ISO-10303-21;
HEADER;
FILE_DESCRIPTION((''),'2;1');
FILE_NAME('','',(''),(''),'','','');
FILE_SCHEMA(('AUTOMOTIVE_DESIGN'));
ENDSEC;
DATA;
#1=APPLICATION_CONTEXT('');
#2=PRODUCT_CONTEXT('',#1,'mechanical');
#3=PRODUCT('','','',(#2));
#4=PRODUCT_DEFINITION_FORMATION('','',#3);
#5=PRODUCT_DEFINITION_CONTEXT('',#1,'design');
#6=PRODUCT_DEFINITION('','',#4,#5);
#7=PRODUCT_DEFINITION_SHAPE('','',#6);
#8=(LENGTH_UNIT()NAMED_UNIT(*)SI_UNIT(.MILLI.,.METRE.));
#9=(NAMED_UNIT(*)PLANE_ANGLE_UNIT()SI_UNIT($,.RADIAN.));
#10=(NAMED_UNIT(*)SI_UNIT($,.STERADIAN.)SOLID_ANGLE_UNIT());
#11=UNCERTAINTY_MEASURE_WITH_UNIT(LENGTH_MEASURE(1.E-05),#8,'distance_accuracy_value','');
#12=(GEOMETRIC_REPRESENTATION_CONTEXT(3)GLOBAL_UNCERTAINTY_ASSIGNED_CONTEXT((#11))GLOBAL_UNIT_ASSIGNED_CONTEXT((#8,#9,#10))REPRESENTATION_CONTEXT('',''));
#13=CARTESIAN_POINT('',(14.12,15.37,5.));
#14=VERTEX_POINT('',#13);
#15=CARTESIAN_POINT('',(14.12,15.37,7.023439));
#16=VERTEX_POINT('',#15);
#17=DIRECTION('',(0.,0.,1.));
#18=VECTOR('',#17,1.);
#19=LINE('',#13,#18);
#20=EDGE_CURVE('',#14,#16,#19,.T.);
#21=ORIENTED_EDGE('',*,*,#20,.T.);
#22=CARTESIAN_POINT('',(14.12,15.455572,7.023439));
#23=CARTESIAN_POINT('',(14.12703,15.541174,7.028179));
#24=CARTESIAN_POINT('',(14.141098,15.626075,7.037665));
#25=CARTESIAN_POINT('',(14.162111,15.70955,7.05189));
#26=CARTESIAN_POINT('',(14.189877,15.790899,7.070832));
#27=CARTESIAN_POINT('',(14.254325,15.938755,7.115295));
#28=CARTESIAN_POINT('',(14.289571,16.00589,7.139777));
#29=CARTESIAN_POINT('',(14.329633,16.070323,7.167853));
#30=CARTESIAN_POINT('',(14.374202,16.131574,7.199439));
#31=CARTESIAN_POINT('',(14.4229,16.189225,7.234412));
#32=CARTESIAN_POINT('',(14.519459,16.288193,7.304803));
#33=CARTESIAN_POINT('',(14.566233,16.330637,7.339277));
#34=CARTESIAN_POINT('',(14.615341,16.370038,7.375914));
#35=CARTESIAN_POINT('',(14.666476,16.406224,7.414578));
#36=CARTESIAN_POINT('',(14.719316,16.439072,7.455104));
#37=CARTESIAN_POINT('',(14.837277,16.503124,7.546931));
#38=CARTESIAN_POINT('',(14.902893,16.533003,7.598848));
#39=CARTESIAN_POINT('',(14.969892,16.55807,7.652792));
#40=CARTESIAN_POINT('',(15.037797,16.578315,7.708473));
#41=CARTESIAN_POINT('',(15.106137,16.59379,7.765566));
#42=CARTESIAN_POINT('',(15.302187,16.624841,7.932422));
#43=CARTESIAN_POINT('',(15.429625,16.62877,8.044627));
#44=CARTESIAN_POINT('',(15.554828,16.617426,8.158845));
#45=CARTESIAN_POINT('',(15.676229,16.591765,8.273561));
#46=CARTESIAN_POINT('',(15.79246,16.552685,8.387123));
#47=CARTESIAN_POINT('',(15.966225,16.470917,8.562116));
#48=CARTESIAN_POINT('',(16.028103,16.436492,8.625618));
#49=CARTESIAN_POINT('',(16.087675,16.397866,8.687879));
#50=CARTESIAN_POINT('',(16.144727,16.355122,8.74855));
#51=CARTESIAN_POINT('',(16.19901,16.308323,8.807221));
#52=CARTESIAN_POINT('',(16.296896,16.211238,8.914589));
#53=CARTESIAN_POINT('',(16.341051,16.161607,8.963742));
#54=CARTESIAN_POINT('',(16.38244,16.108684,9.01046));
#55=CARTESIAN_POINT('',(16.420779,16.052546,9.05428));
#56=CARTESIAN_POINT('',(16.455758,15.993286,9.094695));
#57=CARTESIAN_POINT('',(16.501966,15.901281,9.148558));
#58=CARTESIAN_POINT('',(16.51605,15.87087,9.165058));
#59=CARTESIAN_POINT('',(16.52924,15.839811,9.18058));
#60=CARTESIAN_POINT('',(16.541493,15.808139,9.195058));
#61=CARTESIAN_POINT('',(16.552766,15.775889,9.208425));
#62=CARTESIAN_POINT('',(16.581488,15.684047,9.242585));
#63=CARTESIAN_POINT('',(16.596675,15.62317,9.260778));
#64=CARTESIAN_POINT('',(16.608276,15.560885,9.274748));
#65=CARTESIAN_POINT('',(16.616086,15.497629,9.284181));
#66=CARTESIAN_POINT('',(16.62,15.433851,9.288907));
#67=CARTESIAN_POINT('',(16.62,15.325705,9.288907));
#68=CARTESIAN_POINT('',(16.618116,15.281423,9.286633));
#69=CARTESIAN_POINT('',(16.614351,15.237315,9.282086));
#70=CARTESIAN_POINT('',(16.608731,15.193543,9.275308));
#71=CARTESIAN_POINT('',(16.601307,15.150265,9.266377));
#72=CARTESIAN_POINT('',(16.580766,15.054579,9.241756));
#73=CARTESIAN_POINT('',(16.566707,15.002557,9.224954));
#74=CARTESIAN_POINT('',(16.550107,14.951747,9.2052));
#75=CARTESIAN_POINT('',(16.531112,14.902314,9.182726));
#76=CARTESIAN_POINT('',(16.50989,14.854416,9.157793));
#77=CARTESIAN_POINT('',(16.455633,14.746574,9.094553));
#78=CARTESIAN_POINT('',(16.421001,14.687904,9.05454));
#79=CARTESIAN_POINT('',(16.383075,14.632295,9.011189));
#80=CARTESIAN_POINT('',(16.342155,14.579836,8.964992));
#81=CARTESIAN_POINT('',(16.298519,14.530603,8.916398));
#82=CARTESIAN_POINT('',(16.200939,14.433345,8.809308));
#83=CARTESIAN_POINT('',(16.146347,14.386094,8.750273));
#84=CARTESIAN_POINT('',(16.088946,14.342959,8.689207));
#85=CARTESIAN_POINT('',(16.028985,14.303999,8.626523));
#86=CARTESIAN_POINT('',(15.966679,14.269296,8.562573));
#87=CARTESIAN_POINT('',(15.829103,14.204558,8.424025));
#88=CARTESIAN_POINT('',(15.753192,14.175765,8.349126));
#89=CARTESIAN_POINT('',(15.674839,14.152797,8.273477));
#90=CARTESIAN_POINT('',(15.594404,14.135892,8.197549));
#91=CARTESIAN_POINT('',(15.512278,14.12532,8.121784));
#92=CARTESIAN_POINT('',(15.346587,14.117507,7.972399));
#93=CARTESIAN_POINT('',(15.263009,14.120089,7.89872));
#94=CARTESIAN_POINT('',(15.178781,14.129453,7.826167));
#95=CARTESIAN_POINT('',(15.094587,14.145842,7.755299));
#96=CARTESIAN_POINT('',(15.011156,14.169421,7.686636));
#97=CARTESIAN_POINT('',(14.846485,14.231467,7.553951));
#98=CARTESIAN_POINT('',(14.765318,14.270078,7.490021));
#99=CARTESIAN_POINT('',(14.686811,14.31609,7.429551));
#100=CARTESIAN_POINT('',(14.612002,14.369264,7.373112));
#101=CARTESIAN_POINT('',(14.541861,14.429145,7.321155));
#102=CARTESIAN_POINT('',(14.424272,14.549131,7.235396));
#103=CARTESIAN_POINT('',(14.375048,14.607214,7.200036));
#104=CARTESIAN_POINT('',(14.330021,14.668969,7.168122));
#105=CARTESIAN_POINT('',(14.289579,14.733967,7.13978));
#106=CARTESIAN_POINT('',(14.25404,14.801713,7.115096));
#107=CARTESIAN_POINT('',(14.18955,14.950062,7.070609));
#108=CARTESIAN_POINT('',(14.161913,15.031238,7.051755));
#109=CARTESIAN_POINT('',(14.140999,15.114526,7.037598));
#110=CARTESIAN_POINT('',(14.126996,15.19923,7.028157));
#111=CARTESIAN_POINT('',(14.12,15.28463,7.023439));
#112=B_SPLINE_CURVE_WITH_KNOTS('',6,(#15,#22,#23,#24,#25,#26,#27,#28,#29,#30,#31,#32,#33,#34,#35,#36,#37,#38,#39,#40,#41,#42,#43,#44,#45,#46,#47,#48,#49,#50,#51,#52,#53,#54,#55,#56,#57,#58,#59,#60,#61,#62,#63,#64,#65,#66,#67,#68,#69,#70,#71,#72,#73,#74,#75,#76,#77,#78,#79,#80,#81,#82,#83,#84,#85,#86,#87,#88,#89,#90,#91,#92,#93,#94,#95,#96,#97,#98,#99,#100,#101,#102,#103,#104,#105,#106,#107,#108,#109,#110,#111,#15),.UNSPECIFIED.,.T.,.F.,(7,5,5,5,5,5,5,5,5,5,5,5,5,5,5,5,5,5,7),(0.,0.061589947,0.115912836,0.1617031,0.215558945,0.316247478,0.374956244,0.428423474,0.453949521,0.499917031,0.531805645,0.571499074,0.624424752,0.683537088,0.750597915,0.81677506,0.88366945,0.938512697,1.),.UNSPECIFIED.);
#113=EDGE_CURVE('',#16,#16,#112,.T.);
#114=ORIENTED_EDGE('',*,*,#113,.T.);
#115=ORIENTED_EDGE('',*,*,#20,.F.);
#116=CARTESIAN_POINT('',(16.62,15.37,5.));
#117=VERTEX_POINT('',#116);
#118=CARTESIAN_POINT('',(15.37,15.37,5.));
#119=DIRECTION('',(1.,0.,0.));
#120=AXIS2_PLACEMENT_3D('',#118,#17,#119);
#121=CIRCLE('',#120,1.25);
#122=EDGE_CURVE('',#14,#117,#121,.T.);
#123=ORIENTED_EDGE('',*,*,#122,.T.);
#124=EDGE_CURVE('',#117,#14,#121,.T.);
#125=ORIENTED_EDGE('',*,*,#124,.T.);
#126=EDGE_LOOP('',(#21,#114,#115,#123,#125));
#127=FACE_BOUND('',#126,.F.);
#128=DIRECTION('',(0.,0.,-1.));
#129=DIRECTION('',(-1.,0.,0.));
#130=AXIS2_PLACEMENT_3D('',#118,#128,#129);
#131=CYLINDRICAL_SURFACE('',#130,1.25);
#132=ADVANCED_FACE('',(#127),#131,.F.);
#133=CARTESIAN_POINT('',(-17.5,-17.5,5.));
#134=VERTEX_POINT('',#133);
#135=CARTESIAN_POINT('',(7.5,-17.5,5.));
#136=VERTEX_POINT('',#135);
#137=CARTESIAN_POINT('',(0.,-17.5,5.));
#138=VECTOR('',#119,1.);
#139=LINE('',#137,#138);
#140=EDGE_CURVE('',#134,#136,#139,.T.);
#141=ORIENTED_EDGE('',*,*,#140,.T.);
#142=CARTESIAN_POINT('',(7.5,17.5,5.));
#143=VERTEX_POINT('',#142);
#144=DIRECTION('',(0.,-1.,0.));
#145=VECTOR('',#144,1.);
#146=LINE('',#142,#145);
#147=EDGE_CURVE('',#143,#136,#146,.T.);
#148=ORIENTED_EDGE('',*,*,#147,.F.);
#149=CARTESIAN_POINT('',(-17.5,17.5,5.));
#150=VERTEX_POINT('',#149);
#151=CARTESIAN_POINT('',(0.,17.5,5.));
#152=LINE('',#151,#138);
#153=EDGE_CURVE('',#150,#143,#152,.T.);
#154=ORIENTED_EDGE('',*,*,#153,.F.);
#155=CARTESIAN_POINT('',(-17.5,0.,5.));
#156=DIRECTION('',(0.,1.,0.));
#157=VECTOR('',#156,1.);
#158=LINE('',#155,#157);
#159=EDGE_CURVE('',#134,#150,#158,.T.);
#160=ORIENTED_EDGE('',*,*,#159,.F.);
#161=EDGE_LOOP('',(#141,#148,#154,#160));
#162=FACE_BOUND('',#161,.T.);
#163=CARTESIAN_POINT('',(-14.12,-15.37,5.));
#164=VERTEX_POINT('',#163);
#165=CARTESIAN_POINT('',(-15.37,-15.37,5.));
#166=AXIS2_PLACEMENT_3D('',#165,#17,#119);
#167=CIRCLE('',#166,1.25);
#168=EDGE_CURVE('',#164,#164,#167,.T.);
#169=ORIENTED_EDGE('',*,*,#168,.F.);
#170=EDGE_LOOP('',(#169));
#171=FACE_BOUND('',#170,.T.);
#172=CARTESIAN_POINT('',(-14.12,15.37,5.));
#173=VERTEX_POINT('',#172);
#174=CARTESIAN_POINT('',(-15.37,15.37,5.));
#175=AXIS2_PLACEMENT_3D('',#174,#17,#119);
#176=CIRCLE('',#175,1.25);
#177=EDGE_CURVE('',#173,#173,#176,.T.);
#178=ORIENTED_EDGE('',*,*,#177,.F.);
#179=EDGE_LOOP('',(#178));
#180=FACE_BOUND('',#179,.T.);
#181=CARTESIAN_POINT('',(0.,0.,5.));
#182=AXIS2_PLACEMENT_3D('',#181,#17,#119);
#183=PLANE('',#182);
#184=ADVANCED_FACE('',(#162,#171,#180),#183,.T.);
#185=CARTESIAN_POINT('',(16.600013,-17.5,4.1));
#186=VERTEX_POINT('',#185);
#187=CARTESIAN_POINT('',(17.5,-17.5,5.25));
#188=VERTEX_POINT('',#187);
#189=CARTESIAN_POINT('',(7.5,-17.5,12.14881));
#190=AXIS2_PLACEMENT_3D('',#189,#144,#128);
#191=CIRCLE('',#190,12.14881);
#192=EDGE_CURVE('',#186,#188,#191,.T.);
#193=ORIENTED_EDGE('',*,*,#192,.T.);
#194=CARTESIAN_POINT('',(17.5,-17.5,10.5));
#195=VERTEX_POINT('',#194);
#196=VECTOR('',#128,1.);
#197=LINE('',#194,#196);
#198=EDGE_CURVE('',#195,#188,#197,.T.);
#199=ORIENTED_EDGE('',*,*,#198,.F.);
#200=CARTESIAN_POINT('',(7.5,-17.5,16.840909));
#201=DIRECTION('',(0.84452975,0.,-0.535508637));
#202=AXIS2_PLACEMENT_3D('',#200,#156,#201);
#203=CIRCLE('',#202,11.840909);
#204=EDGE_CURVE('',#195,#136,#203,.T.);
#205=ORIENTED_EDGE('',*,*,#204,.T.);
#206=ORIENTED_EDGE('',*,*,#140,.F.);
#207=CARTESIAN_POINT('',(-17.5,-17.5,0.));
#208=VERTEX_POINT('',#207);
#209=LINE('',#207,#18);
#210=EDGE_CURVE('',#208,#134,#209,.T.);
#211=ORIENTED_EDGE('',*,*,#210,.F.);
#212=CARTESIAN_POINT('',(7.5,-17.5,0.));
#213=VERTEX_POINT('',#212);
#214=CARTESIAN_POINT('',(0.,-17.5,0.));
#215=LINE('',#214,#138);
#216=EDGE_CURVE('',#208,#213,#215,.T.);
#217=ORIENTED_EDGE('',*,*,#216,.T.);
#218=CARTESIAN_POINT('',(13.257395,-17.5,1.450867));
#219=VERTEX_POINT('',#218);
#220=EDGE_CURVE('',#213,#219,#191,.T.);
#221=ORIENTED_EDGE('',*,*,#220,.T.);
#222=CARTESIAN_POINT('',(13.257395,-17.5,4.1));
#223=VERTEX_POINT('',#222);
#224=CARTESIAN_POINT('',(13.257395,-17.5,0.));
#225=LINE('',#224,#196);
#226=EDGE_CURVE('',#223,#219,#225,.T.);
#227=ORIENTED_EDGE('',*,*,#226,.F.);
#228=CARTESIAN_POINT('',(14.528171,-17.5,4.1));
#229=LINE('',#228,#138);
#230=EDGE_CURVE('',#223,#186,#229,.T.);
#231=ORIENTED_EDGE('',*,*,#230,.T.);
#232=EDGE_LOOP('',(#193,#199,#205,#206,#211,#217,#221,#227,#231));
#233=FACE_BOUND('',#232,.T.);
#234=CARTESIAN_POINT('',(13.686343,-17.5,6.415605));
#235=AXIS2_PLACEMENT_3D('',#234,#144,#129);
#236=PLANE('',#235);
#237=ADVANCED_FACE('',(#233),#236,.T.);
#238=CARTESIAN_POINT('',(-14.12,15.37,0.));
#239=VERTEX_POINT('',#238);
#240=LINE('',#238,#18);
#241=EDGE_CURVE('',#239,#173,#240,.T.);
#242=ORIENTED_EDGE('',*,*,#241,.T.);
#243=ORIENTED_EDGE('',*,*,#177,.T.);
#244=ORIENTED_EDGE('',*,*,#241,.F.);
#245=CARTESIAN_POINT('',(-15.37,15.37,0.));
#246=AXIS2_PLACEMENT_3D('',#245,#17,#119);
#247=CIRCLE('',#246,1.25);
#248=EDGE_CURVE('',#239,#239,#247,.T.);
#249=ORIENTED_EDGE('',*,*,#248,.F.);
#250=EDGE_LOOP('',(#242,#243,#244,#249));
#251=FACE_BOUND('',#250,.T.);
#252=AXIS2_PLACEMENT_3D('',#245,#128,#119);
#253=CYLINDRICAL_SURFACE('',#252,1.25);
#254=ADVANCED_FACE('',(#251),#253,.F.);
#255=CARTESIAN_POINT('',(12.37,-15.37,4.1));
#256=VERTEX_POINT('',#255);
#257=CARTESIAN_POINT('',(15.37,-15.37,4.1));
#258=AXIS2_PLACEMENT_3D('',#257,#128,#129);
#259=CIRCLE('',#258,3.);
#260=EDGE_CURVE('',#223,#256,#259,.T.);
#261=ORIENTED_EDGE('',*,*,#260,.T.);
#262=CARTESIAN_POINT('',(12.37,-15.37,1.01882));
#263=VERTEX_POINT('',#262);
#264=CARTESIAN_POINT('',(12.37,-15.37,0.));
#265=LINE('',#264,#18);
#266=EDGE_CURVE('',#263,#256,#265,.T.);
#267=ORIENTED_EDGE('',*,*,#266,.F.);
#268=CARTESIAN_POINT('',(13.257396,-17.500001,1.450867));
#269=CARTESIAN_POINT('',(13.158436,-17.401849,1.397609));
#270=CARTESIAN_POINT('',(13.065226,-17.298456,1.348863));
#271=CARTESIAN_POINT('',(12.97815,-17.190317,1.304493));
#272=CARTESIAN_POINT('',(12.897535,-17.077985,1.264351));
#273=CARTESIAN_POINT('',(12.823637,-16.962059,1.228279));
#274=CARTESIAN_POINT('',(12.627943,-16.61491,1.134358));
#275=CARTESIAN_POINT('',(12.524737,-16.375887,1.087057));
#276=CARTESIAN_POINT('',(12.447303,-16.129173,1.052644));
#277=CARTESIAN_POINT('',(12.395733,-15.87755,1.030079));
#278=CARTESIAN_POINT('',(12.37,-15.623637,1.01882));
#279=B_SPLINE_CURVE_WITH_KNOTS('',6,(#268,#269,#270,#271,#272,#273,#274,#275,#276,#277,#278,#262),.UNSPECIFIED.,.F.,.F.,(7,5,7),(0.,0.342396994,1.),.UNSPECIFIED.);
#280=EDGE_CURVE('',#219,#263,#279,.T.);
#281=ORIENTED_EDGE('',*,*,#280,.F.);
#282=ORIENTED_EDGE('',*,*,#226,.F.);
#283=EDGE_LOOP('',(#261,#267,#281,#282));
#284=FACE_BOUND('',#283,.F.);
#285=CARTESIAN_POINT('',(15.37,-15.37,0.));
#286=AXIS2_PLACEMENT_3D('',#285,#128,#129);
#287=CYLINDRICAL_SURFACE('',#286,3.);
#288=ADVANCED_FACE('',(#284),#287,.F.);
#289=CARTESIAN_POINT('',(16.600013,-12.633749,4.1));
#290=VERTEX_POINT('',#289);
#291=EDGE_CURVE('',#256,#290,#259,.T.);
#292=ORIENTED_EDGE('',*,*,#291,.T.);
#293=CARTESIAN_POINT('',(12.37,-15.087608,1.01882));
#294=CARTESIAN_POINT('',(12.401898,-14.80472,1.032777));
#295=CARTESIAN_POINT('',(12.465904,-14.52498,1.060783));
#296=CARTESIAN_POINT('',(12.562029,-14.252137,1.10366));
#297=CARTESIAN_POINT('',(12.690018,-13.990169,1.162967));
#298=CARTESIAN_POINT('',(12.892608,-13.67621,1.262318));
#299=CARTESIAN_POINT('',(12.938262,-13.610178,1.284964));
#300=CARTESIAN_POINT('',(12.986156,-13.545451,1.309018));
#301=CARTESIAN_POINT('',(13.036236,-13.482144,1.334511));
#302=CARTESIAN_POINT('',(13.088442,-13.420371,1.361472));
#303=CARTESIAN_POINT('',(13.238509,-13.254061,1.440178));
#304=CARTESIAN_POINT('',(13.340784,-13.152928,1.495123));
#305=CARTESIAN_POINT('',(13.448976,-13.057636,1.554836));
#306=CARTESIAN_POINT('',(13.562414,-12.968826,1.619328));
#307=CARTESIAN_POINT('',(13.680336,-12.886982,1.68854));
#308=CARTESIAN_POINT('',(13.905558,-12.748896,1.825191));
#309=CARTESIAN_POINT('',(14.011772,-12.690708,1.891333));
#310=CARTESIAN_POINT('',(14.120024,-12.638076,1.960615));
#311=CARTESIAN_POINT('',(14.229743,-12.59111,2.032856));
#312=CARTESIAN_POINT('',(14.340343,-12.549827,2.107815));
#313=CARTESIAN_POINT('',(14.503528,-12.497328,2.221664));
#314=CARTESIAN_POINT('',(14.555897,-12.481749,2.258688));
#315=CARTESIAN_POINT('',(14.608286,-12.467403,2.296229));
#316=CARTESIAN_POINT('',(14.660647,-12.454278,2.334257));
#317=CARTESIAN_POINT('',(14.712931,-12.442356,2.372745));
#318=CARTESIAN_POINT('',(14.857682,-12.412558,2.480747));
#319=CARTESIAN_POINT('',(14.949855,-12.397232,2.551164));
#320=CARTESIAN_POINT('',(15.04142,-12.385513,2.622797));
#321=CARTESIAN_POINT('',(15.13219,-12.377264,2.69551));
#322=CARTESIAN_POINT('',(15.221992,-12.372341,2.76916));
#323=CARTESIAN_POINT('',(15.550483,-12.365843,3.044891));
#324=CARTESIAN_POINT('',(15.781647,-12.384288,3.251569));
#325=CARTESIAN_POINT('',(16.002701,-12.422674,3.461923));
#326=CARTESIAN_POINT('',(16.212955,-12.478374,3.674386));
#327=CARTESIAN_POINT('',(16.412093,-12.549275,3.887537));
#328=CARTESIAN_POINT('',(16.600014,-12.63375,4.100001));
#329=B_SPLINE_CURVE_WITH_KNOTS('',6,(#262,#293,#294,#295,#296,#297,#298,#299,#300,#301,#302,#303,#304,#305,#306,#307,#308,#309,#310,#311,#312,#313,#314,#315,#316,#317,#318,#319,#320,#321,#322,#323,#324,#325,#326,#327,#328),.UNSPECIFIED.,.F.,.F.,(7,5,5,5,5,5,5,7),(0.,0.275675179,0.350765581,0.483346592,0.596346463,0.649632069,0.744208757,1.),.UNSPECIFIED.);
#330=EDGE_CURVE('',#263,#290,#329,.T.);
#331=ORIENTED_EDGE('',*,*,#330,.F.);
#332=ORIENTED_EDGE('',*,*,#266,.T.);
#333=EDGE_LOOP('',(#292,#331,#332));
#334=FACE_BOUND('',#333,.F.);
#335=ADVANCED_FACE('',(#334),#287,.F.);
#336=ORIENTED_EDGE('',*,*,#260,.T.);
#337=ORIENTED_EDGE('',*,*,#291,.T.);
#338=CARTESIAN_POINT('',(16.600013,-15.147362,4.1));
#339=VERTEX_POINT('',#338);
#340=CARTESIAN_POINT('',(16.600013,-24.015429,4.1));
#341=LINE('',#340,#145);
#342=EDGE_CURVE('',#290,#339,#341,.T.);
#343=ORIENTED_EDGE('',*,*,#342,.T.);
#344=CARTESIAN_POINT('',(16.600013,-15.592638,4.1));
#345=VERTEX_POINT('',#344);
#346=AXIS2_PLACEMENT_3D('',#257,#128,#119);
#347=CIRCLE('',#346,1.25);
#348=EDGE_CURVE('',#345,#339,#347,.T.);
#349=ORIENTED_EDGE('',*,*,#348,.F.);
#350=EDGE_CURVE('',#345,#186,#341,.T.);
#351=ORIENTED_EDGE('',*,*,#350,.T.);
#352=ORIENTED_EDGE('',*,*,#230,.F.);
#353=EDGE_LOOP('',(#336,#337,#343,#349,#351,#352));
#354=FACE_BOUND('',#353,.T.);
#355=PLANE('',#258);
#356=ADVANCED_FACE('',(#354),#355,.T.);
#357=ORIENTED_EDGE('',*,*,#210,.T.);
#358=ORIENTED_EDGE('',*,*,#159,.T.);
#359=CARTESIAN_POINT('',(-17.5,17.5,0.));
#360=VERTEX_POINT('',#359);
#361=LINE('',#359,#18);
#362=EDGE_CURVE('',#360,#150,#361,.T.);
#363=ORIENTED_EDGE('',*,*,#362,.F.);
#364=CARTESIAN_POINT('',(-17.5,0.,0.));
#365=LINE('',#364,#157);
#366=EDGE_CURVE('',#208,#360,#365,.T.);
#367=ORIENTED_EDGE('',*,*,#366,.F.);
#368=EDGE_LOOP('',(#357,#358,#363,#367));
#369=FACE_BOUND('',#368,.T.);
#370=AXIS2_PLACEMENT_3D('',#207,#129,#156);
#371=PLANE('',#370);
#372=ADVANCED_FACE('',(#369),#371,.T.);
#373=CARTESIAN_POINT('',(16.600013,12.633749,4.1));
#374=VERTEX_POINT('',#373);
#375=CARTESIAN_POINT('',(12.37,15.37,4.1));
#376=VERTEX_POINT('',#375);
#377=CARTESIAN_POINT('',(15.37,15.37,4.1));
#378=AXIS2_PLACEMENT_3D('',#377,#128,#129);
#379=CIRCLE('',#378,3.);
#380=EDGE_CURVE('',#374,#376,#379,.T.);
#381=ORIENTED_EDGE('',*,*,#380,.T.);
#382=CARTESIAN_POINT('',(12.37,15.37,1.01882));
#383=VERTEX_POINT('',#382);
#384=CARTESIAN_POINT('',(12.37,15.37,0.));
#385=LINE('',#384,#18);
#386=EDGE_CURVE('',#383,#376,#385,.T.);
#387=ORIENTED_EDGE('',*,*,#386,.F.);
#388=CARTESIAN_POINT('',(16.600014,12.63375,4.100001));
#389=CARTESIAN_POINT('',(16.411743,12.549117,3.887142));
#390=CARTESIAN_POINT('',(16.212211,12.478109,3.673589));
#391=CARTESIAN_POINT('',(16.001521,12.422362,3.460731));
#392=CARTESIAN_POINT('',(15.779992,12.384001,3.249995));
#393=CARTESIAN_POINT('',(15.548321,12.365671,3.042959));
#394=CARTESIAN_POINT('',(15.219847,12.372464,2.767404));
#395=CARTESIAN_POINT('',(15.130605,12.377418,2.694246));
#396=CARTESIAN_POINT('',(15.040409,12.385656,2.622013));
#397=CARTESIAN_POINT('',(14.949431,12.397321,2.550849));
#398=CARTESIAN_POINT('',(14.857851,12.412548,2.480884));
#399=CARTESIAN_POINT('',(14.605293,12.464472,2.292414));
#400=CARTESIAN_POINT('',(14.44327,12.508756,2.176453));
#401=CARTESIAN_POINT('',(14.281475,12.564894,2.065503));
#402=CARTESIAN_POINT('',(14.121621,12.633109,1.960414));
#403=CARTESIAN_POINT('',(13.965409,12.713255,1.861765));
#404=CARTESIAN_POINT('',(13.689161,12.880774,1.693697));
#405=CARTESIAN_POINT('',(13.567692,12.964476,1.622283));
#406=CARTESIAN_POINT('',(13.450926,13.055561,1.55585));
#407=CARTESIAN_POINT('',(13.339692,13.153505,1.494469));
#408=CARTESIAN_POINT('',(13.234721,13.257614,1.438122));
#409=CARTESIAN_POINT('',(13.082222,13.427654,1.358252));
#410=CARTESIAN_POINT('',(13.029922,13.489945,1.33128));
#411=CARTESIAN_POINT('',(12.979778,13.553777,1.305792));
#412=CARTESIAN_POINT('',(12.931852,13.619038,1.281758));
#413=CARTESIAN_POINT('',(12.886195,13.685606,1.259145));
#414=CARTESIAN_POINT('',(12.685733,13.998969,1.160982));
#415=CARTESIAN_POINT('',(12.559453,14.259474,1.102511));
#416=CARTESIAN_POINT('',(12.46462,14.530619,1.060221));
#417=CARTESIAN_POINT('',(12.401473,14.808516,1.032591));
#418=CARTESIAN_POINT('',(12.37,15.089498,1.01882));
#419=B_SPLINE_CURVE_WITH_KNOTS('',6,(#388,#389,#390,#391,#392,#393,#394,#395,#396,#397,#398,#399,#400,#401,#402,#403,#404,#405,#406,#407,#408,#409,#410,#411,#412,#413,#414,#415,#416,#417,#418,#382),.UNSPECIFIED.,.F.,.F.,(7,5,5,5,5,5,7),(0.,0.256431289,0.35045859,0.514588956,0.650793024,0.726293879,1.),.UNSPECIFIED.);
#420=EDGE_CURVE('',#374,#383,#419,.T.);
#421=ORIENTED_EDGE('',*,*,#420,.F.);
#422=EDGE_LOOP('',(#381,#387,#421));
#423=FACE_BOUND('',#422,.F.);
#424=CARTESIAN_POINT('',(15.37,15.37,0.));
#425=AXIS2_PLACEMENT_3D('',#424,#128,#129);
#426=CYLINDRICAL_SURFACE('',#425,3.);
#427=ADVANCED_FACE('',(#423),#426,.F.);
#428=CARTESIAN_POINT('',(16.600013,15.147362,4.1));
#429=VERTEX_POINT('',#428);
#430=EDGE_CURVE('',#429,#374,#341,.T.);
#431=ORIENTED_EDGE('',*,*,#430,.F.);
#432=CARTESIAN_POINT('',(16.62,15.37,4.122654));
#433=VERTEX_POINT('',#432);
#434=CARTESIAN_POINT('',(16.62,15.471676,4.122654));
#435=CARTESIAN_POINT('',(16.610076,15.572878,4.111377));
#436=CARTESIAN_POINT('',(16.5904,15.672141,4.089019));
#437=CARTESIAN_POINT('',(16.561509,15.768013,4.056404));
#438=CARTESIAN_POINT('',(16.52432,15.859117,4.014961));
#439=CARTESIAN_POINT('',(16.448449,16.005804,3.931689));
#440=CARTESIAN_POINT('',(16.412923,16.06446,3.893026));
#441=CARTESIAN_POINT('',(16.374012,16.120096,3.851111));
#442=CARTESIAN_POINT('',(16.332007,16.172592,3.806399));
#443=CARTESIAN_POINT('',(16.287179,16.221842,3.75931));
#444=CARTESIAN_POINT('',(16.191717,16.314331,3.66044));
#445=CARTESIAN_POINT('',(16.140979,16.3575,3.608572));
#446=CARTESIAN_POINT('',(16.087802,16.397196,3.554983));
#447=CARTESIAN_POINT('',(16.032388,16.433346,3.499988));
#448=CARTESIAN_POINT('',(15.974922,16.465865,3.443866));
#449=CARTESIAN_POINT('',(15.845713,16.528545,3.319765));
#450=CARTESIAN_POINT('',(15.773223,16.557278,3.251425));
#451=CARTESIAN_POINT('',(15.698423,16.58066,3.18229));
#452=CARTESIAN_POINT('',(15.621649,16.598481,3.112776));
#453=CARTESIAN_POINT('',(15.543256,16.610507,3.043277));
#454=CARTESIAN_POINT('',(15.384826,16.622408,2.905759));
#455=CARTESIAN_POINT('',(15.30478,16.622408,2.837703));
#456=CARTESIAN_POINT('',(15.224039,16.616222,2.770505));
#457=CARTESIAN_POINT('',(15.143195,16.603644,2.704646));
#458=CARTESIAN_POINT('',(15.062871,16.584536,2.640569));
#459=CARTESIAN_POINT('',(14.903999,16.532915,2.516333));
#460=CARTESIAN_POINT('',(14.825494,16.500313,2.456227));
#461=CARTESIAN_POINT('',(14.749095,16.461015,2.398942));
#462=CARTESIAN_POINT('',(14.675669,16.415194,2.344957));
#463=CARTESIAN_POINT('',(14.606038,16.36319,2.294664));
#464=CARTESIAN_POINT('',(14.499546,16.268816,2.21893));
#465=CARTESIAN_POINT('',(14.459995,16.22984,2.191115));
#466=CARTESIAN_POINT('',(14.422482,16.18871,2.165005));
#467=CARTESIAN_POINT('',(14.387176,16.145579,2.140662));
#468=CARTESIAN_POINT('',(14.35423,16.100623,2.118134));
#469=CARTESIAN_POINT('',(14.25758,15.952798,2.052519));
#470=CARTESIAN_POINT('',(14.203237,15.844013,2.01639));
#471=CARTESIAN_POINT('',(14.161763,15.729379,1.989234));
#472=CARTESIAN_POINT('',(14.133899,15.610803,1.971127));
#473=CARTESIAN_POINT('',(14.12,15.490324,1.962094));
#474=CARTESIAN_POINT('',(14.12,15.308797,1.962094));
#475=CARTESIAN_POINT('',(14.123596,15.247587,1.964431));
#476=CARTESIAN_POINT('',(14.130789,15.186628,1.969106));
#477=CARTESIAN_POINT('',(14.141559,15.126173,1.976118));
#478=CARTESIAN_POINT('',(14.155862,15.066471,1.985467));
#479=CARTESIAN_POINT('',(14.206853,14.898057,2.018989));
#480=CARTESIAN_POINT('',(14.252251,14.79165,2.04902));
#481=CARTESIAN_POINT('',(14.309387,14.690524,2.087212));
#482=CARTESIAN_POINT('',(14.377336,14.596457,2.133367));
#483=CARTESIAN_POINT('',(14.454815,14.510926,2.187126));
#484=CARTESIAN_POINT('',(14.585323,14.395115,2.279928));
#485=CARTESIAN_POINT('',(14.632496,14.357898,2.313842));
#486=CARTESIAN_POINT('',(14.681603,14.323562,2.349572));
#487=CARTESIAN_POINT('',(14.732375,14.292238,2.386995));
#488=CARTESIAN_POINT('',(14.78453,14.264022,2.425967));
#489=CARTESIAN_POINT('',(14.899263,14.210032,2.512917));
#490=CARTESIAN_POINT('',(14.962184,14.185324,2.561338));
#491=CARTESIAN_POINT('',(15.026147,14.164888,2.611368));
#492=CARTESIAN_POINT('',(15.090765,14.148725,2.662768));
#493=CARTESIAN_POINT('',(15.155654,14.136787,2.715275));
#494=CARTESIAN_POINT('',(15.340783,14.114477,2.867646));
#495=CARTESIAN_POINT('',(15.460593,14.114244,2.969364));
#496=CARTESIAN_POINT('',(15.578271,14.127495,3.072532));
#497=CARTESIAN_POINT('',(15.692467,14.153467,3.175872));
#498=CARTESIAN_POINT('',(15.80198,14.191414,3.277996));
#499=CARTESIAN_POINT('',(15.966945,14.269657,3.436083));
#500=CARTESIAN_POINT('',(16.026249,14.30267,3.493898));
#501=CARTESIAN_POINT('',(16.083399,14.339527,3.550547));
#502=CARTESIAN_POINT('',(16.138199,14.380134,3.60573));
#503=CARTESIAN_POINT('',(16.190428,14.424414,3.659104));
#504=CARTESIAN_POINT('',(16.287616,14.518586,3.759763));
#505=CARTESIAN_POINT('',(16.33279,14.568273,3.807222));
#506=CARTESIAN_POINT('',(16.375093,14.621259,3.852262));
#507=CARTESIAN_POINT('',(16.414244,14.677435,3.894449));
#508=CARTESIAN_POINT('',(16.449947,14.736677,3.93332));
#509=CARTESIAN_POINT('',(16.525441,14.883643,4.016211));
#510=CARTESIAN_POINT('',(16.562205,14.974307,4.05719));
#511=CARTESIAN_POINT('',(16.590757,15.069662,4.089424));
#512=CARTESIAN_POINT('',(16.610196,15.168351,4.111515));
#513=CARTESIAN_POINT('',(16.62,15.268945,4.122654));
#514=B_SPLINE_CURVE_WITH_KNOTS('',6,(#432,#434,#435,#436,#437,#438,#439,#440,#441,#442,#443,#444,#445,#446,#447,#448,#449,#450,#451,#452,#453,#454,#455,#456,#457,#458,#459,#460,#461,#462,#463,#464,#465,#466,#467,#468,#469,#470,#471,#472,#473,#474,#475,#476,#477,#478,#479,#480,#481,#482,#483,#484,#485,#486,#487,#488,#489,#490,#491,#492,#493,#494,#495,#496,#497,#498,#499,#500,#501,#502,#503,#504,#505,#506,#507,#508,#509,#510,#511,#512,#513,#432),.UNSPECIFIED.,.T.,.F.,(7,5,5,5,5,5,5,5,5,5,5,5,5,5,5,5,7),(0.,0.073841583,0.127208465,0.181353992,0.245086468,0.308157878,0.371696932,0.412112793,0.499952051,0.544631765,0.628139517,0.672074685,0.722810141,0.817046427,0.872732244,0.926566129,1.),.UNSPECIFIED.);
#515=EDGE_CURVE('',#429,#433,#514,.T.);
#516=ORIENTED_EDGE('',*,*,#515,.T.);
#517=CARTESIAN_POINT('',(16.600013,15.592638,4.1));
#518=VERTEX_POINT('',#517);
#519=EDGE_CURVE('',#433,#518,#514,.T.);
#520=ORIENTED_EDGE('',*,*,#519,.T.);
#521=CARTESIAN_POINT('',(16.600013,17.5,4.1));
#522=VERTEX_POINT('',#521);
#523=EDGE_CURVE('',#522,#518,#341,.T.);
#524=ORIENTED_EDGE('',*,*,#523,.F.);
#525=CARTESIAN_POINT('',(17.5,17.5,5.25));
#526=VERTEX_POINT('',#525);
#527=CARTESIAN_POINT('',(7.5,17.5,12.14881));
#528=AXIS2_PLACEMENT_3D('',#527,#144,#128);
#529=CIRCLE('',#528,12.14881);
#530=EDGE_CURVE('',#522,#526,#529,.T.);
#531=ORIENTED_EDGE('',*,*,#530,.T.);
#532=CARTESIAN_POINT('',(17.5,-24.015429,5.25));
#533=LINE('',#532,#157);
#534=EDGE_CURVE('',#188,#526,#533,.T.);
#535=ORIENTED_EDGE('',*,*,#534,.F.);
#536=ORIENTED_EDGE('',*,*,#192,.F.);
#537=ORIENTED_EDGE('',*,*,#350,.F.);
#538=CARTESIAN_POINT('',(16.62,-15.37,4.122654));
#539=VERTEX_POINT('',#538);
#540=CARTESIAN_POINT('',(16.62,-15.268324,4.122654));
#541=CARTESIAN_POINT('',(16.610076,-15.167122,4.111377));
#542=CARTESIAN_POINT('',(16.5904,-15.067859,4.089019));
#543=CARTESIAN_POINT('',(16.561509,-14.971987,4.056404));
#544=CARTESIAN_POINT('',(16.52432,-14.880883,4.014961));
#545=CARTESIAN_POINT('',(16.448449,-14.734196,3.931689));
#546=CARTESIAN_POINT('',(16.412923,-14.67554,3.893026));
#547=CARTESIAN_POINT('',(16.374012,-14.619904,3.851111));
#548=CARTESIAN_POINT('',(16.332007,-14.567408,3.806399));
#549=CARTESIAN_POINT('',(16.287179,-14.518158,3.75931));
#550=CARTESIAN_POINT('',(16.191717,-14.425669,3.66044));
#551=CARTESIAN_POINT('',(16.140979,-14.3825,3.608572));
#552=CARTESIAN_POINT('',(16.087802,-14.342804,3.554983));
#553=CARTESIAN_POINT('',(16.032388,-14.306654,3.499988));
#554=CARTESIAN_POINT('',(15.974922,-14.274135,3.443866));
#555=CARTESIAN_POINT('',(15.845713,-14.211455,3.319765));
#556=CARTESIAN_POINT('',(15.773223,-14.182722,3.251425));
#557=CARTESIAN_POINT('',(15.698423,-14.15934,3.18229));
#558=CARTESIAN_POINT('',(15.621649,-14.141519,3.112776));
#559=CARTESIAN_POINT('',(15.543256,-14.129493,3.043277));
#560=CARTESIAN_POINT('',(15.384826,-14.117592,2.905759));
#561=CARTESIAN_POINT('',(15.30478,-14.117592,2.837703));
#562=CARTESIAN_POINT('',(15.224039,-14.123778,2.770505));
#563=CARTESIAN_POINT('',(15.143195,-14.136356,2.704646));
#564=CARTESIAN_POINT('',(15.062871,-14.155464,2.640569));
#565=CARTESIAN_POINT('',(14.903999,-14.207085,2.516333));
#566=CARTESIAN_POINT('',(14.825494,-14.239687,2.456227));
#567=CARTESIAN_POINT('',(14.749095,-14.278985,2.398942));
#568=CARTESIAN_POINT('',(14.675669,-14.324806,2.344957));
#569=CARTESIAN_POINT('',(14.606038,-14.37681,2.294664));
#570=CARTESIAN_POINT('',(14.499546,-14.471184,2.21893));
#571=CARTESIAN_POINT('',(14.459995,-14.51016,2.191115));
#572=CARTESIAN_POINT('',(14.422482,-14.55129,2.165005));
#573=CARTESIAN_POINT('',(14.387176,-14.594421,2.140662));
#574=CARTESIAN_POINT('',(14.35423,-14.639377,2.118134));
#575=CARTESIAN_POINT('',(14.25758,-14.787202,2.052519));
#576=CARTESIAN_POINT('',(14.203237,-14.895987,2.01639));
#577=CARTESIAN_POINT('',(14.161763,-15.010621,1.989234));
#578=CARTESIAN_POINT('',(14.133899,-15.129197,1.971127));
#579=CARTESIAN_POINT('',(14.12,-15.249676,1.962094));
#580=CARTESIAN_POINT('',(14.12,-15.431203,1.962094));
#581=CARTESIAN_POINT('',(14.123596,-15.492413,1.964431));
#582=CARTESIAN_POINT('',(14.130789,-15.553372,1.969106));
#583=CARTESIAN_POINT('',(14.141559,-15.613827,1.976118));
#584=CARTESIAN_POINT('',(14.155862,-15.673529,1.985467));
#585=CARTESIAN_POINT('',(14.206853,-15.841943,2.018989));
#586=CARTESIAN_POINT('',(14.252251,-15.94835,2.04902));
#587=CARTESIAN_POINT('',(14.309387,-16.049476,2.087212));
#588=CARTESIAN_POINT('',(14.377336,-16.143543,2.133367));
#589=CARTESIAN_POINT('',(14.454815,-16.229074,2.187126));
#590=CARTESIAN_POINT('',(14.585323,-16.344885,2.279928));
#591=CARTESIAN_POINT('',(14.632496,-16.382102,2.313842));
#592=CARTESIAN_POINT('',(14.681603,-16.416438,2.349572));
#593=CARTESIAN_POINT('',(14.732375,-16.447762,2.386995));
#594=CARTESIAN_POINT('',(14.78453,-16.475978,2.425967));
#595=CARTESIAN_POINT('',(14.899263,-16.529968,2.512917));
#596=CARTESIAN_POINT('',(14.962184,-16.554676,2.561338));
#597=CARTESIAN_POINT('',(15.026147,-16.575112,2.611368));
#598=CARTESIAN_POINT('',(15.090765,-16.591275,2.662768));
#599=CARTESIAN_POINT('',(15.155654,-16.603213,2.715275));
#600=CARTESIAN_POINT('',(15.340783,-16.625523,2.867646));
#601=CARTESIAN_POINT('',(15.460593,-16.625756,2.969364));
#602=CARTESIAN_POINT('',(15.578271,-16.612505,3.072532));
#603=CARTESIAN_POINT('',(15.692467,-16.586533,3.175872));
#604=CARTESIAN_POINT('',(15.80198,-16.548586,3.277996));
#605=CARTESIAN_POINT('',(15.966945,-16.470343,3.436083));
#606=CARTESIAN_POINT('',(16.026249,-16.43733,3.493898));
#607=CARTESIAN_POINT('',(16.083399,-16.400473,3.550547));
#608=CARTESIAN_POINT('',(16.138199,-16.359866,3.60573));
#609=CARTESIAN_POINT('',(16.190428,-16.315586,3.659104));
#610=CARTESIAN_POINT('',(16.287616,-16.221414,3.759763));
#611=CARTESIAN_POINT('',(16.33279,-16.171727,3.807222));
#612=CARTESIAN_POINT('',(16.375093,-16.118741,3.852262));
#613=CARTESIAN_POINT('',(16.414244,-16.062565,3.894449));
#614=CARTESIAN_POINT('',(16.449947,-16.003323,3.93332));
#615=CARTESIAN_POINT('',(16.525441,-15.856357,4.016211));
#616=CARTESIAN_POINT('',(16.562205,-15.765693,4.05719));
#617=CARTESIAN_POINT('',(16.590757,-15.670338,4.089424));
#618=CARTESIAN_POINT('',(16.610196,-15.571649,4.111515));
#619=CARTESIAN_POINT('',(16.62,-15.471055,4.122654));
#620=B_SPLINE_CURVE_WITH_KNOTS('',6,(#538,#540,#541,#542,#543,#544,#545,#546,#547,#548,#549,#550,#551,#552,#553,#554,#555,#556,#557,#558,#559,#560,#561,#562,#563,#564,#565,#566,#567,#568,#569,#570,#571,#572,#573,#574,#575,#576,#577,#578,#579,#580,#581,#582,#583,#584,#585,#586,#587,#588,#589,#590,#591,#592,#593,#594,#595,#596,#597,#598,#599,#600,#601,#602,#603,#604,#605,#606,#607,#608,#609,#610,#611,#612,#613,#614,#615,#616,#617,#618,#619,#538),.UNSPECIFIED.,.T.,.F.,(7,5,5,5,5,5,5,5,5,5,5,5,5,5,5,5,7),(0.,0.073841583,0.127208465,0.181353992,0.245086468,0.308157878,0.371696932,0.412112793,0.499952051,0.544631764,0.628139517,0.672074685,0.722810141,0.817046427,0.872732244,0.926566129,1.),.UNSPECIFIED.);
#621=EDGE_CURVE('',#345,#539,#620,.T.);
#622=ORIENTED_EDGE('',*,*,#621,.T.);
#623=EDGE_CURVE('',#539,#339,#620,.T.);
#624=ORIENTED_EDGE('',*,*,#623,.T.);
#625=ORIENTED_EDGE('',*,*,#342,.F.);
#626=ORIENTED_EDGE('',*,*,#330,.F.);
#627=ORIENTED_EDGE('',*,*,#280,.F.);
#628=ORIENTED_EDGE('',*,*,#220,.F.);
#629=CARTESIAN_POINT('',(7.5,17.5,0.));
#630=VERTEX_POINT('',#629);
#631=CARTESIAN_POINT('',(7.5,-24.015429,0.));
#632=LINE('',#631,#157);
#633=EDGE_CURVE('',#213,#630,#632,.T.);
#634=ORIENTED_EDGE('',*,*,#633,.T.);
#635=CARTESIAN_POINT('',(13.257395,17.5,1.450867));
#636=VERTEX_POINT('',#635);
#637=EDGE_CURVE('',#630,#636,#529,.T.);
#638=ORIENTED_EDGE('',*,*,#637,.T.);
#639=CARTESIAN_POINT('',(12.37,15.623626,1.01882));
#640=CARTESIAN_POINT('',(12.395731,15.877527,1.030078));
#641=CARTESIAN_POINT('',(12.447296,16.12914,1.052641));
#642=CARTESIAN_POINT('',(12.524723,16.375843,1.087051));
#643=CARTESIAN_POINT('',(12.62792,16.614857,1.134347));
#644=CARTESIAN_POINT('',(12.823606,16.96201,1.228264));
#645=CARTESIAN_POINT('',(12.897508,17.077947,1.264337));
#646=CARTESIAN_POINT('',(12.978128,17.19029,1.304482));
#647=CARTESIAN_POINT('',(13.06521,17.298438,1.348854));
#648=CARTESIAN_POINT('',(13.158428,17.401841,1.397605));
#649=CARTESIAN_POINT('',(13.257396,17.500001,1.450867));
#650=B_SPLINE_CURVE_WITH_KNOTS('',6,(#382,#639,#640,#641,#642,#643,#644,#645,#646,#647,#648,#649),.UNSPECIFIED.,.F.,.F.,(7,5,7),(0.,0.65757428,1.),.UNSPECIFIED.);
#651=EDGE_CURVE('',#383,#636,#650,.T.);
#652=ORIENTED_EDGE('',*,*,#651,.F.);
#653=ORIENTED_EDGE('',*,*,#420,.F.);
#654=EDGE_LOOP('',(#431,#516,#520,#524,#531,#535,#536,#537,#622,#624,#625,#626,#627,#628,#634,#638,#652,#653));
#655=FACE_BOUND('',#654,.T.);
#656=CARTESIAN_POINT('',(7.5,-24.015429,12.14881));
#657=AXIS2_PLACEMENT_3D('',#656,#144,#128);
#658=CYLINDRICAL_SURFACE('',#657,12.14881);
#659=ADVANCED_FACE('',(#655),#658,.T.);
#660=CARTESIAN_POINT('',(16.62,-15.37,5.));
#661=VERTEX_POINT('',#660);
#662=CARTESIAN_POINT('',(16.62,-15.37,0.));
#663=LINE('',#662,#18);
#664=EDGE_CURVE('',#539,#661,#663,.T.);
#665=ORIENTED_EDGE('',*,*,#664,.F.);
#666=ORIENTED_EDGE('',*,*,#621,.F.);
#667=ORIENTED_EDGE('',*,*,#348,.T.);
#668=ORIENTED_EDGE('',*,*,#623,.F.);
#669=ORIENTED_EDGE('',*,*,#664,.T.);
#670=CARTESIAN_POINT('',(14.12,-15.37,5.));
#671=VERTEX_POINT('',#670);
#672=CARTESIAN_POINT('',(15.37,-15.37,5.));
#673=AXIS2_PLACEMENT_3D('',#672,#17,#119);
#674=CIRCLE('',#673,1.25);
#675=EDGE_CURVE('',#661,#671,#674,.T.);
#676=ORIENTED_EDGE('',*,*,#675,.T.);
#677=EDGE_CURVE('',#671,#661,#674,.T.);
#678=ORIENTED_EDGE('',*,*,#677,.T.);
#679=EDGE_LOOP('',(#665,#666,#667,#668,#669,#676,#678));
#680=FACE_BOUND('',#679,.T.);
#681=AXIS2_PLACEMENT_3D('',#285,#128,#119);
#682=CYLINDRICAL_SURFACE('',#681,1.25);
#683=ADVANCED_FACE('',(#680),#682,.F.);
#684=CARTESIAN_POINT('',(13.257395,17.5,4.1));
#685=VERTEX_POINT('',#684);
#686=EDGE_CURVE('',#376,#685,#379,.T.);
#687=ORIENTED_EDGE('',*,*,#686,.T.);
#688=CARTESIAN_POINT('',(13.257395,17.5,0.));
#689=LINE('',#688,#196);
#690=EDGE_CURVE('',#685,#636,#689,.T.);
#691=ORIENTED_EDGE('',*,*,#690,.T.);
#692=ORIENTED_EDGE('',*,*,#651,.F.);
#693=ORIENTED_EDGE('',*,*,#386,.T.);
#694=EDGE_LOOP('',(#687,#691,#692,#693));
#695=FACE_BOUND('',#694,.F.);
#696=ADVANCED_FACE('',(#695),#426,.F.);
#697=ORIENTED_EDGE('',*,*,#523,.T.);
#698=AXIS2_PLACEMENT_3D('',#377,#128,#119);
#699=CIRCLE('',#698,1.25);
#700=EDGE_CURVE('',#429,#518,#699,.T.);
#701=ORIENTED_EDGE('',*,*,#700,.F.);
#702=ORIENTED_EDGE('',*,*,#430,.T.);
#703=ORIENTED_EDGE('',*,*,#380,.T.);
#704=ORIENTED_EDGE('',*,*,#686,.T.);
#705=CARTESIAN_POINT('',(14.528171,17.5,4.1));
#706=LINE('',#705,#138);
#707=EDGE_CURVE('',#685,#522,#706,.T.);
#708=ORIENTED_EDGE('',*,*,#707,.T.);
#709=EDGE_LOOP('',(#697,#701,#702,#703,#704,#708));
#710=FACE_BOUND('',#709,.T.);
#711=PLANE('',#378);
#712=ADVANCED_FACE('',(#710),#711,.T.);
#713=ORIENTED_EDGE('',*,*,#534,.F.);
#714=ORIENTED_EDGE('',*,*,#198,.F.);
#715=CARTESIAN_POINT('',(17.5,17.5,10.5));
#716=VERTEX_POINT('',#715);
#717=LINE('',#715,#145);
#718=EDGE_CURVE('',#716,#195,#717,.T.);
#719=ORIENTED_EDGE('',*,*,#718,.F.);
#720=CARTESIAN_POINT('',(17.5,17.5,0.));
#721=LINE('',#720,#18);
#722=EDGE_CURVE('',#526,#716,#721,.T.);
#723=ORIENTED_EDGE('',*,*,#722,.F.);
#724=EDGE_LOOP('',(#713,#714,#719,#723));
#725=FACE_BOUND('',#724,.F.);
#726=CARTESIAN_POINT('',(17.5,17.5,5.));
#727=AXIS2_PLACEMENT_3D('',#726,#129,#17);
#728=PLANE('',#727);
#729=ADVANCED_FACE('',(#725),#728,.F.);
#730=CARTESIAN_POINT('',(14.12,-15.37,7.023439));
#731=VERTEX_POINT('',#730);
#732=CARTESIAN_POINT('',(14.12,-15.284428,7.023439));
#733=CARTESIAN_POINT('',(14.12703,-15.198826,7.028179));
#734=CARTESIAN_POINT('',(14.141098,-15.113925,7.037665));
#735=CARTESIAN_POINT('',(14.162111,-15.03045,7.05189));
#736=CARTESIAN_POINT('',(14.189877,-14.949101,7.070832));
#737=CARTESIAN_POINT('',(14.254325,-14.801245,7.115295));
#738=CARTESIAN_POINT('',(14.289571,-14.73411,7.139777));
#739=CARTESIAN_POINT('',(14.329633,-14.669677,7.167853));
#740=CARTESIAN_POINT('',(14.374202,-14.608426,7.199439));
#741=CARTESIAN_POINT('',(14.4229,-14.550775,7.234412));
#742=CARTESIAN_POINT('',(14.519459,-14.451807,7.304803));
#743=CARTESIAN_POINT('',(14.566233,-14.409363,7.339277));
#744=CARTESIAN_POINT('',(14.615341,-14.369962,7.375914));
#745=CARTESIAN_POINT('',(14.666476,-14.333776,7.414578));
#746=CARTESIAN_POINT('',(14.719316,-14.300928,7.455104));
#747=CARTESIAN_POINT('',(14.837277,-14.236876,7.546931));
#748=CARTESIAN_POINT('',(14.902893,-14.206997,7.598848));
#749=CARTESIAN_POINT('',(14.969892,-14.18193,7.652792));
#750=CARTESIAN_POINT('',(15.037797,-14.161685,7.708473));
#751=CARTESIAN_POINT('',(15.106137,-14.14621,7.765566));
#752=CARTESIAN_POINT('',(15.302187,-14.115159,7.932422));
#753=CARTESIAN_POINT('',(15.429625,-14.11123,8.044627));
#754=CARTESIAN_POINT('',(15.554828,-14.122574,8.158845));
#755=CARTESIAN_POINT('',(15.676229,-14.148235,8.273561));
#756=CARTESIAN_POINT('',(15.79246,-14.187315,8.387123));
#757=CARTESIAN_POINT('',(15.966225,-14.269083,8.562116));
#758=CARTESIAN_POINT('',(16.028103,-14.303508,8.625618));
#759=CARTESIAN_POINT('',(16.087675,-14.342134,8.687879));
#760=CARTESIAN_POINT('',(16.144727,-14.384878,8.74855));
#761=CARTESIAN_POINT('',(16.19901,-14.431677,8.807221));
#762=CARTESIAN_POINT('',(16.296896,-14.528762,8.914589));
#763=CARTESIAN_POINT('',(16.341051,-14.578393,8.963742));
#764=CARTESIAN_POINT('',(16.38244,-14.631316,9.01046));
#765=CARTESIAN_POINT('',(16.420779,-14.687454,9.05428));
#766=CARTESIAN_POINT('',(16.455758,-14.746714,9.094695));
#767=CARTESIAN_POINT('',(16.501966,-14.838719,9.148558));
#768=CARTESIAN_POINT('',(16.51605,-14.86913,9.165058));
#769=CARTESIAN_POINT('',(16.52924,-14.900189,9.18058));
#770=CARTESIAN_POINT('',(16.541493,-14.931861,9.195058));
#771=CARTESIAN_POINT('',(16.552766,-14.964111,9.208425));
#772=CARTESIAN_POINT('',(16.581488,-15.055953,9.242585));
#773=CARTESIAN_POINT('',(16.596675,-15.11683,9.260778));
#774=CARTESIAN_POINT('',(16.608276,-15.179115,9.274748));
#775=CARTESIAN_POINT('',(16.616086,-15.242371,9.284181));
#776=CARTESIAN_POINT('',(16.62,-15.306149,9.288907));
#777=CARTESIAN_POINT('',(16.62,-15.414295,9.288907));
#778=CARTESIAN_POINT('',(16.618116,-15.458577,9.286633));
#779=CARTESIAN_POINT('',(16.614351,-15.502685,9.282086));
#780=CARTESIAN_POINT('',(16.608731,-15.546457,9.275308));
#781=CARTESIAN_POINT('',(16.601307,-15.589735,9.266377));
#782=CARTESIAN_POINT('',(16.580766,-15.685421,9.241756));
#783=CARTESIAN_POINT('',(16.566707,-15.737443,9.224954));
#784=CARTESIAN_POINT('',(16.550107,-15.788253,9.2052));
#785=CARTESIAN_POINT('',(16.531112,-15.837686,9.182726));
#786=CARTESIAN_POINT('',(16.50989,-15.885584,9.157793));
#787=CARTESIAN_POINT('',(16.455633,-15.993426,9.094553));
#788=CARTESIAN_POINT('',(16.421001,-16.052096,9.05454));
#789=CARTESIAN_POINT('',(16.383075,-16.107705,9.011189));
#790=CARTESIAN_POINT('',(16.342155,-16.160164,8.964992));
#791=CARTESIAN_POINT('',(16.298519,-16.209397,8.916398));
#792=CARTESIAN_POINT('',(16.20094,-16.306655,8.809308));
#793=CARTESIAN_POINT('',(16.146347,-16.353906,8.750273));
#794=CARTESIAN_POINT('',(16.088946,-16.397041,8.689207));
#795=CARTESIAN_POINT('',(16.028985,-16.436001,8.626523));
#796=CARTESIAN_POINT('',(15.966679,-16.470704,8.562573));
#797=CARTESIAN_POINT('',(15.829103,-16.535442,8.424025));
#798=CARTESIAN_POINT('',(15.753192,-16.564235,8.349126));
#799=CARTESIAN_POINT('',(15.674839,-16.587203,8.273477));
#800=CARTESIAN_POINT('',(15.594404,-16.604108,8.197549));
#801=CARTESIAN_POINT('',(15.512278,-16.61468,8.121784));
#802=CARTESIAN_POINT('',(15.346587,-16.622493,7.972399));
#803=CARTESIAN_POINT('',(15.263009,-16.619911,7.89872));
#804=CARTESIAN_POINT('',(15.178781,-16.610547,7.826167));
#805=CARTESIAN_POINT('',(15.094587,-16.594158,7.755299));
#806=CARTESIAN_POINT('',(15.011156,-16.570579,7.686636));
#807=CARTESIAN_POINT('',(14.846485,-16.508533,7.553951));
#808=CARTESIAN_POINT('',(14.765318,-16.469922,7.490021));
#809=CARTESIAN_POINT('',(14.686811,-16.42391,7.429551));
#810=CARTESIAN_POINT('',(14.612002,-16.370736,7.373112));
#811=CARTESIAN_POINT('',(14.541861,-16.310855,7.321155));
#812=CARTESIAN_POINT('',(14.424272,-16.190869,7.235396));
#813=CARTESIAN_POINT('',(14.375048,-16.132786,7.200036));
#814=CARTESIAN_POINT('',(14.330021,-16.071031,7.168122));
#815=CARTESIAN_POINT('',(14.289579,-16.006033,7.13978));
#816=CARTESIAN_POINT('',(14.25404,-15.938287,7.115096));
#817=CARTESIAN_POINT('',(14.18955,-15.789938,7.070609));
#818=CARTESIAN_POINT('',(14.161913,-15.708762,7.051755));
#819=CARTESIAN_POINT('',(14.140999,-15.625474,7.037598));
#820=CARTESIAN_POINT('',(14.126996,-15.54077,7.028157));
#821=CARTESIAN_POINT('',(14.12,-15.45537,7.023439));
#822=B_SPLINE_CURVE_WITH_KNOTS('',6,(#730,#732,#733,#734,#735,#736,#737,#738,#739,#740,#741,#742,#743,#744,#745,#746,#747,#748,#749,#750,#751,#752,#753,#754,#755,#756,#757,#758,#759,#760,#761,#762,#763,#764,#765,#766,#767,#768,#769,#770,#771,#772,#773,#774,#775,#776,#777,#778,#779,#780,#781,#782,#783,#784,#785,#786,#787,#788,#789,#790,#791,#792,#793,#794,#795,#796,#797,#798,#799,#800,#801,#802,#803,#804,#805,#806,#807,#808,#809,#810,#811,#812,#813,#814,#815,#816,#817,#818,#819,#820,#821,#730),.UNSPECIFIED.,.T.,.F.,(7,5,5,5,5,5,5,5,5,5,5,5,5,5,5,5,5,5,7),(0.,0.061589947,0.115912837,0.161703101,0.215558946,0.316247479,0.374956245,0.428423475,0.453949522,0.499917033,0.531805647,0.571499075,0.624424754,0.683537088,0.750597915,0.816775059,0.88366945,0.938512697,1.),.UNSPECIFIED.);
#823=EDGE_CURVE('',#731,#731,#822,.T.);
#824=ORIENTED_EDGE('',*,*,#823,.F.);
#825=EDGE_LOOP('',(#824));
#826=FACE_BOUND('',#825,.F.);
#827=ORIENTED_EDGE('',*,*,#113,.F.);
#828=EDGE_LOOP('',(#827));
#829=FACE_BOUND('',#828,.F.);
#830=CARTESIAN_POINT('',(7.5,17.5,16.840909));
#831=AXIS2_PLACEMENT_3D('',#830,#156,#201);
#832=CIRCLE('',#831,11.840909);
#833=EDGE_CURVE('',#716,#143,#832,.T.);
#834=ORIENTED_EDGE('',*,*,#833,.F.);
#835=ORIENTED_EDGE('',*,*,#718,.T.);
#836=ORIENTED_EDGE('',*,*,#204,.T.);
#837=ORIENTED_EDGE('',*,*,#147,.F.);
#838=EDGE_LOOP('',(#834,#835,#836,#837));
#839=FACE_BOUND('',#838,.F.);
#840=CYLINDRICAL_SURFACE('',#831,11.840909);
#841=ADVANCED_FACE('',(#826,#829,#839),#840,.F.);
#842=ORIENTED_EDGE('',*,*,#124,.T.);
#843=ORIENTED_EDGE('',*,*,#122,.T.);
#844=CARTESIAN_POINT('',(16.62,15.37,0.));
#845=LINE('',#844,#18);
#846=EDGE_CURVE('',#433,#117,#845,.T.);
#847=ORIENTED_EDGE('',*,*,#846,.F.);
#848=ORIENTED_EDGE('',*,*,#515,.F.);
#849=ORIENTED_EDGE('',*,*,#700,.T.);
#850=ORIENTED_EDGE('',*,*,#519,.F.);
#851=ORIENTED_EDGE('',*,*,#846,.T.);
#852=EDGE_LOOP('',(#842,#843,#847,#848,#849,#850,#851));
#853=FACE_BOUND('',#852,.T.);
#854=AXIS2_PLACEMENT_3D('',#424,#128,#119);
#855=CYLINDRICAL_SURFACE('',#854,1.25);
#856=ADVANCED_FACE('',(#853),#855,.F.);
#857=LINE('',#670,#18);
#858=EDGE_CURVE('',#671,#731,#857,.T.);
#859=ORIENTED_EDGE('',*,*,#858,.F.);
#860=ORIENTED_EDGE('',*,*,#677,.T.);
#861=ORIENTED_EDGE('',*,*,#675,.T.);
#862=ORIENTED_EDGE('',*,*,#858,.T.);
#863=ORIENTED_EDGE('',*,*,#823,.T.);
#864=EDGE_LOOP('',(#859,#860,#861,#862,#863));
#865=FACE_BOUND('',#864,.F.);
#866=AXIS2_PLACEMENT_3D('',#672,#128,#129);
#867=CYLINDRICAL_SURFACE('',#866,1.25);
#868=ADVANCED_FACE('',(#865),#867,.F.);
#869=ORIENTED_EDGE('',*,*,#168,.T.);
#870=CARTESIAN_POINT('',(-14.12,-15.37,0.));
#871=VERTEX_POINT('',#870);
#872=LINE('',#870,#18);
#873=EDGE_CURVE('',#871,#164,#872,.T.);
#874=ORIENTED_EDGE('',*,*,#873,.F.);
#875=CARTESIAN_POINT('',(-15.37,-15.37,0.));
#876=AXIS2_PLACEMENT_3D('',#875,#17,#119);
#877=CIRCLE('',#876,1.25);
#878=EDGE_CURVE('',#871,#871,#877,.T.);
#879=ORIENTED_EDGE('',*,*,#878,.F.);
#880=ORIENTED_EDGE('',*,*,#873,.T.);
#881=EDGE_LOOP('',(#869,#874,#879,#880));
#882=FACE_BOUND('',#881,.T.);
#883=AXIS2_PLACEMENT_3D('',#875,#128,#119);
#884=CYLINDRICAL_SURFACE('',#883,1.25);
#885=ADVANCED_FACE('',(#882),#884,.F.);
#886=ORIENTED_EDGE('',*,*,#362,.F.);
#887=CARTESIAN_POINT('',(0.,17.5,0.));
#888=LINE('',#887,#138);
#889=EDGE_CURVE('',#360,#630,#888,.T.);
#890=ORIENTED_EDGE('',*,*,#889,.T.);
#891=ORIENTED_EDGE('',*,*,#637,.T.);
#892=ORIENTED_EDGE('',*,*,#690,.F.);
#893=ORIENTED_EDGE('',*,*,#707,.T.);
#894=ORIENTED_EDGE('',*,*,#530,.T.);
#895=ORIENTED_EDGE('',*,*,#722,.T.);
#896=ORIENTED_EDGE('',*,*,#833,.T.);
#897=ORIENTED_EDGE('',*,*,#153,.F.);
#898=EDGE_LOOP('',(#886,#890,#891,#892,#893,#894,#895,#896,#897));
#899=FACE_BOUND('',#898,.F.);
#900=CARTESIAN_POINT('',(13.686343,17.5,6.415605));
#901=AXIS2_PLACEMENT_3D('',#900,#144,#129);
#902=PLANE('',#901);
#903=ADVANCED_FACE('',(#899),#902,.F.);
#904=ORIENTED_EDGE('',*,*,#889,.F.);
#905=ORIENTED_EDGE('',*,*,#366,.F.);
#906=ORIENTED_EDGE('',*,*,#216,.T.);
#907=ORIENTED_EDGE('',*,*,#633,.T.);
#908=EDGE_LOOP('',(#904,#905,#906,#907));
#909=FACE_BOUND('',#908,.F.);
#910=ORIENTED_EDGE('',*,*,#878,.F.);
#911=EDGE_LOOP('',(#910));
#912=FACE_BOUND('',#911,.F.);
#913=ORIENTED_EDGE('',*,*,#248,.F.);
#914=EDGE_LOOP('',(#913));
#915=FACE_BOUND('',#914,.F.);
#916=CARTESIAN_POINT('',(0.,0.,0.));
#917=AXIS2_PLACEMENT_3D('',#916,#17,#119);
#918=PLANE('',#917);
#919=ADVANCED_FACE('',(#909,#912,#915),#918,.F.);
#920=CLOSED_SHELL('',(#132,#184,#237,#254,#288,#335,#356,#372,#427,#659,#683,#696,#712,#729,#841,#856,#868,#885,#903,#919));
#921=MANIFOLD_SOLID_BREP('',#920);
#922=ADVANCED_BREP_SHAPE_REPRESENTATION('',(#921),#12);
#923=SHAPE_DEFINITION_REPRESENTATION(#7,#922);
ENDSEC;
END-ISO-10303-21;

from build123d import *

# Parameters (mm, degrees)
CROQUIS1_W                 = 35
CROQUIS1_H                 = 35
CROQUIS1_R                 = 1.25
SALIENTE_EXTRUIR1_DEPTH    = 5
SALIENTE_EXTRUIR2_DEPTH    = 35
CORTAR_EXTRUIR2_DEPTH      = 41.51542916
CORTAR_EXTRUIR2_DEPTH_BACK = 41.51542916
CROQUIS4_R                 = 1.25
CORTAR_EXTRUIR3_DEPTH      = 10
CROQUIS5_R                 = 3
CORTAR_EXTRUIR6_DEPTH      = 4.1


with BuildPart() as part:
    # Croquis1 → Saliente-Extruir1 (new body)
    with BuildSketch(Plane.XY):
        Rectangle(CROQUIS1_W, CROQUIS1_H)
        with Locations((15.37, -15.37)):
            Circle(CROQUIS1_R, mode=Mode.SUBTRACT)
        with Locations((-15.37, -15.37)):
            Circle(CROQUIS1_R, mode=Mode.SUBTRACT)
        with Locations((-15.37, 15.37)):
            Circle(CROQUIS1_R, mode=Mode.SUBTRACT)
        with Locations((15.37, 15.37)):
            Circle(CROQUIS1_R, mode=Mode.SUBTRACT)
    extrude(amount=SALIENTE_EXTRUIR1_DEPTH)

    # Croquis2 → Saliente-Extruir2 (add, through all)
    with BuildSketch(Plane(origin=(0, 17.5, 0), x_dir=(1, 0, 0), z_dir=(0, 1, 0))):
        with BuildLine():
            Line((17.5, -5), (17.5, -10.5))
            ThreePointArc((17.5, -10.5), (13.206356105, -6.465716172), (7.5, -5))
            Line((7.5, -5), (17.5, -5))
        make_face()
    extrude(amount=-SALIENTE_EXTRUIR2_DEPTH)

    # Croquis3 → Cortar-Extruir2 (cut, two sides: drawn at the far end of the back side and taken through both)
    with BuildSketch(Plane(origin=(0, 17.5, 0), x_dir=(1, 0, 0), z_dir=(0, 1, 0)).offset(-CORTAR_EXTRUIR2_DEPTH_BACK)):
        with BuildLine():
            Line((17.5, 0), (7.5, 0))
            ThreePointArc((7.5, 0), (13.147178499, -1.392279049), (17.5, -5.25))
            Line((17.5, -5.25), (17.5, 0))
        make_face()
    extrude(amount=CORTAR_EXTRUIR2_DEPTH + CORTAR_EXTRUIR2_DEPTH_BACK, mode=Mode.SUBTRACT)

    # Croquis4 → Cortar-Extruir3 (cut)
    with BuildSketch(Plane(origin=(0, 0, 5), x_dir=(-1, 0, 0), z_dir=(0, 0, -1))):
        with Locations((-15.37, 15.37)):
            Circle(CROQUIS4_R)
        with Locations((-15.37, -15.37)):
            Circle(CROQUIS4_R)
    extrude(amount=-CORTAR_EXTRUIR3_DEPTH, mode=Mode.SUBTRACT)

    # Croquis5 → Cortar-Extruir6 (cut)
    with BuildSketch(Plane(origin=(0, 0, 0), x_dir=(-1, 0, 0), z_dir=(0, 0, -1))):
        with Locations((-15.37, 15.37)):
            Circle(CROQUIS5_R)
        with Locations((-15.37, -15.37)):
            Circle(CROQUIS5_R)
    extrude(amount=-CORTAR_EXTRUIR6_DEPTH, mode=Mode.SUBTRACT)


solid = part.part
